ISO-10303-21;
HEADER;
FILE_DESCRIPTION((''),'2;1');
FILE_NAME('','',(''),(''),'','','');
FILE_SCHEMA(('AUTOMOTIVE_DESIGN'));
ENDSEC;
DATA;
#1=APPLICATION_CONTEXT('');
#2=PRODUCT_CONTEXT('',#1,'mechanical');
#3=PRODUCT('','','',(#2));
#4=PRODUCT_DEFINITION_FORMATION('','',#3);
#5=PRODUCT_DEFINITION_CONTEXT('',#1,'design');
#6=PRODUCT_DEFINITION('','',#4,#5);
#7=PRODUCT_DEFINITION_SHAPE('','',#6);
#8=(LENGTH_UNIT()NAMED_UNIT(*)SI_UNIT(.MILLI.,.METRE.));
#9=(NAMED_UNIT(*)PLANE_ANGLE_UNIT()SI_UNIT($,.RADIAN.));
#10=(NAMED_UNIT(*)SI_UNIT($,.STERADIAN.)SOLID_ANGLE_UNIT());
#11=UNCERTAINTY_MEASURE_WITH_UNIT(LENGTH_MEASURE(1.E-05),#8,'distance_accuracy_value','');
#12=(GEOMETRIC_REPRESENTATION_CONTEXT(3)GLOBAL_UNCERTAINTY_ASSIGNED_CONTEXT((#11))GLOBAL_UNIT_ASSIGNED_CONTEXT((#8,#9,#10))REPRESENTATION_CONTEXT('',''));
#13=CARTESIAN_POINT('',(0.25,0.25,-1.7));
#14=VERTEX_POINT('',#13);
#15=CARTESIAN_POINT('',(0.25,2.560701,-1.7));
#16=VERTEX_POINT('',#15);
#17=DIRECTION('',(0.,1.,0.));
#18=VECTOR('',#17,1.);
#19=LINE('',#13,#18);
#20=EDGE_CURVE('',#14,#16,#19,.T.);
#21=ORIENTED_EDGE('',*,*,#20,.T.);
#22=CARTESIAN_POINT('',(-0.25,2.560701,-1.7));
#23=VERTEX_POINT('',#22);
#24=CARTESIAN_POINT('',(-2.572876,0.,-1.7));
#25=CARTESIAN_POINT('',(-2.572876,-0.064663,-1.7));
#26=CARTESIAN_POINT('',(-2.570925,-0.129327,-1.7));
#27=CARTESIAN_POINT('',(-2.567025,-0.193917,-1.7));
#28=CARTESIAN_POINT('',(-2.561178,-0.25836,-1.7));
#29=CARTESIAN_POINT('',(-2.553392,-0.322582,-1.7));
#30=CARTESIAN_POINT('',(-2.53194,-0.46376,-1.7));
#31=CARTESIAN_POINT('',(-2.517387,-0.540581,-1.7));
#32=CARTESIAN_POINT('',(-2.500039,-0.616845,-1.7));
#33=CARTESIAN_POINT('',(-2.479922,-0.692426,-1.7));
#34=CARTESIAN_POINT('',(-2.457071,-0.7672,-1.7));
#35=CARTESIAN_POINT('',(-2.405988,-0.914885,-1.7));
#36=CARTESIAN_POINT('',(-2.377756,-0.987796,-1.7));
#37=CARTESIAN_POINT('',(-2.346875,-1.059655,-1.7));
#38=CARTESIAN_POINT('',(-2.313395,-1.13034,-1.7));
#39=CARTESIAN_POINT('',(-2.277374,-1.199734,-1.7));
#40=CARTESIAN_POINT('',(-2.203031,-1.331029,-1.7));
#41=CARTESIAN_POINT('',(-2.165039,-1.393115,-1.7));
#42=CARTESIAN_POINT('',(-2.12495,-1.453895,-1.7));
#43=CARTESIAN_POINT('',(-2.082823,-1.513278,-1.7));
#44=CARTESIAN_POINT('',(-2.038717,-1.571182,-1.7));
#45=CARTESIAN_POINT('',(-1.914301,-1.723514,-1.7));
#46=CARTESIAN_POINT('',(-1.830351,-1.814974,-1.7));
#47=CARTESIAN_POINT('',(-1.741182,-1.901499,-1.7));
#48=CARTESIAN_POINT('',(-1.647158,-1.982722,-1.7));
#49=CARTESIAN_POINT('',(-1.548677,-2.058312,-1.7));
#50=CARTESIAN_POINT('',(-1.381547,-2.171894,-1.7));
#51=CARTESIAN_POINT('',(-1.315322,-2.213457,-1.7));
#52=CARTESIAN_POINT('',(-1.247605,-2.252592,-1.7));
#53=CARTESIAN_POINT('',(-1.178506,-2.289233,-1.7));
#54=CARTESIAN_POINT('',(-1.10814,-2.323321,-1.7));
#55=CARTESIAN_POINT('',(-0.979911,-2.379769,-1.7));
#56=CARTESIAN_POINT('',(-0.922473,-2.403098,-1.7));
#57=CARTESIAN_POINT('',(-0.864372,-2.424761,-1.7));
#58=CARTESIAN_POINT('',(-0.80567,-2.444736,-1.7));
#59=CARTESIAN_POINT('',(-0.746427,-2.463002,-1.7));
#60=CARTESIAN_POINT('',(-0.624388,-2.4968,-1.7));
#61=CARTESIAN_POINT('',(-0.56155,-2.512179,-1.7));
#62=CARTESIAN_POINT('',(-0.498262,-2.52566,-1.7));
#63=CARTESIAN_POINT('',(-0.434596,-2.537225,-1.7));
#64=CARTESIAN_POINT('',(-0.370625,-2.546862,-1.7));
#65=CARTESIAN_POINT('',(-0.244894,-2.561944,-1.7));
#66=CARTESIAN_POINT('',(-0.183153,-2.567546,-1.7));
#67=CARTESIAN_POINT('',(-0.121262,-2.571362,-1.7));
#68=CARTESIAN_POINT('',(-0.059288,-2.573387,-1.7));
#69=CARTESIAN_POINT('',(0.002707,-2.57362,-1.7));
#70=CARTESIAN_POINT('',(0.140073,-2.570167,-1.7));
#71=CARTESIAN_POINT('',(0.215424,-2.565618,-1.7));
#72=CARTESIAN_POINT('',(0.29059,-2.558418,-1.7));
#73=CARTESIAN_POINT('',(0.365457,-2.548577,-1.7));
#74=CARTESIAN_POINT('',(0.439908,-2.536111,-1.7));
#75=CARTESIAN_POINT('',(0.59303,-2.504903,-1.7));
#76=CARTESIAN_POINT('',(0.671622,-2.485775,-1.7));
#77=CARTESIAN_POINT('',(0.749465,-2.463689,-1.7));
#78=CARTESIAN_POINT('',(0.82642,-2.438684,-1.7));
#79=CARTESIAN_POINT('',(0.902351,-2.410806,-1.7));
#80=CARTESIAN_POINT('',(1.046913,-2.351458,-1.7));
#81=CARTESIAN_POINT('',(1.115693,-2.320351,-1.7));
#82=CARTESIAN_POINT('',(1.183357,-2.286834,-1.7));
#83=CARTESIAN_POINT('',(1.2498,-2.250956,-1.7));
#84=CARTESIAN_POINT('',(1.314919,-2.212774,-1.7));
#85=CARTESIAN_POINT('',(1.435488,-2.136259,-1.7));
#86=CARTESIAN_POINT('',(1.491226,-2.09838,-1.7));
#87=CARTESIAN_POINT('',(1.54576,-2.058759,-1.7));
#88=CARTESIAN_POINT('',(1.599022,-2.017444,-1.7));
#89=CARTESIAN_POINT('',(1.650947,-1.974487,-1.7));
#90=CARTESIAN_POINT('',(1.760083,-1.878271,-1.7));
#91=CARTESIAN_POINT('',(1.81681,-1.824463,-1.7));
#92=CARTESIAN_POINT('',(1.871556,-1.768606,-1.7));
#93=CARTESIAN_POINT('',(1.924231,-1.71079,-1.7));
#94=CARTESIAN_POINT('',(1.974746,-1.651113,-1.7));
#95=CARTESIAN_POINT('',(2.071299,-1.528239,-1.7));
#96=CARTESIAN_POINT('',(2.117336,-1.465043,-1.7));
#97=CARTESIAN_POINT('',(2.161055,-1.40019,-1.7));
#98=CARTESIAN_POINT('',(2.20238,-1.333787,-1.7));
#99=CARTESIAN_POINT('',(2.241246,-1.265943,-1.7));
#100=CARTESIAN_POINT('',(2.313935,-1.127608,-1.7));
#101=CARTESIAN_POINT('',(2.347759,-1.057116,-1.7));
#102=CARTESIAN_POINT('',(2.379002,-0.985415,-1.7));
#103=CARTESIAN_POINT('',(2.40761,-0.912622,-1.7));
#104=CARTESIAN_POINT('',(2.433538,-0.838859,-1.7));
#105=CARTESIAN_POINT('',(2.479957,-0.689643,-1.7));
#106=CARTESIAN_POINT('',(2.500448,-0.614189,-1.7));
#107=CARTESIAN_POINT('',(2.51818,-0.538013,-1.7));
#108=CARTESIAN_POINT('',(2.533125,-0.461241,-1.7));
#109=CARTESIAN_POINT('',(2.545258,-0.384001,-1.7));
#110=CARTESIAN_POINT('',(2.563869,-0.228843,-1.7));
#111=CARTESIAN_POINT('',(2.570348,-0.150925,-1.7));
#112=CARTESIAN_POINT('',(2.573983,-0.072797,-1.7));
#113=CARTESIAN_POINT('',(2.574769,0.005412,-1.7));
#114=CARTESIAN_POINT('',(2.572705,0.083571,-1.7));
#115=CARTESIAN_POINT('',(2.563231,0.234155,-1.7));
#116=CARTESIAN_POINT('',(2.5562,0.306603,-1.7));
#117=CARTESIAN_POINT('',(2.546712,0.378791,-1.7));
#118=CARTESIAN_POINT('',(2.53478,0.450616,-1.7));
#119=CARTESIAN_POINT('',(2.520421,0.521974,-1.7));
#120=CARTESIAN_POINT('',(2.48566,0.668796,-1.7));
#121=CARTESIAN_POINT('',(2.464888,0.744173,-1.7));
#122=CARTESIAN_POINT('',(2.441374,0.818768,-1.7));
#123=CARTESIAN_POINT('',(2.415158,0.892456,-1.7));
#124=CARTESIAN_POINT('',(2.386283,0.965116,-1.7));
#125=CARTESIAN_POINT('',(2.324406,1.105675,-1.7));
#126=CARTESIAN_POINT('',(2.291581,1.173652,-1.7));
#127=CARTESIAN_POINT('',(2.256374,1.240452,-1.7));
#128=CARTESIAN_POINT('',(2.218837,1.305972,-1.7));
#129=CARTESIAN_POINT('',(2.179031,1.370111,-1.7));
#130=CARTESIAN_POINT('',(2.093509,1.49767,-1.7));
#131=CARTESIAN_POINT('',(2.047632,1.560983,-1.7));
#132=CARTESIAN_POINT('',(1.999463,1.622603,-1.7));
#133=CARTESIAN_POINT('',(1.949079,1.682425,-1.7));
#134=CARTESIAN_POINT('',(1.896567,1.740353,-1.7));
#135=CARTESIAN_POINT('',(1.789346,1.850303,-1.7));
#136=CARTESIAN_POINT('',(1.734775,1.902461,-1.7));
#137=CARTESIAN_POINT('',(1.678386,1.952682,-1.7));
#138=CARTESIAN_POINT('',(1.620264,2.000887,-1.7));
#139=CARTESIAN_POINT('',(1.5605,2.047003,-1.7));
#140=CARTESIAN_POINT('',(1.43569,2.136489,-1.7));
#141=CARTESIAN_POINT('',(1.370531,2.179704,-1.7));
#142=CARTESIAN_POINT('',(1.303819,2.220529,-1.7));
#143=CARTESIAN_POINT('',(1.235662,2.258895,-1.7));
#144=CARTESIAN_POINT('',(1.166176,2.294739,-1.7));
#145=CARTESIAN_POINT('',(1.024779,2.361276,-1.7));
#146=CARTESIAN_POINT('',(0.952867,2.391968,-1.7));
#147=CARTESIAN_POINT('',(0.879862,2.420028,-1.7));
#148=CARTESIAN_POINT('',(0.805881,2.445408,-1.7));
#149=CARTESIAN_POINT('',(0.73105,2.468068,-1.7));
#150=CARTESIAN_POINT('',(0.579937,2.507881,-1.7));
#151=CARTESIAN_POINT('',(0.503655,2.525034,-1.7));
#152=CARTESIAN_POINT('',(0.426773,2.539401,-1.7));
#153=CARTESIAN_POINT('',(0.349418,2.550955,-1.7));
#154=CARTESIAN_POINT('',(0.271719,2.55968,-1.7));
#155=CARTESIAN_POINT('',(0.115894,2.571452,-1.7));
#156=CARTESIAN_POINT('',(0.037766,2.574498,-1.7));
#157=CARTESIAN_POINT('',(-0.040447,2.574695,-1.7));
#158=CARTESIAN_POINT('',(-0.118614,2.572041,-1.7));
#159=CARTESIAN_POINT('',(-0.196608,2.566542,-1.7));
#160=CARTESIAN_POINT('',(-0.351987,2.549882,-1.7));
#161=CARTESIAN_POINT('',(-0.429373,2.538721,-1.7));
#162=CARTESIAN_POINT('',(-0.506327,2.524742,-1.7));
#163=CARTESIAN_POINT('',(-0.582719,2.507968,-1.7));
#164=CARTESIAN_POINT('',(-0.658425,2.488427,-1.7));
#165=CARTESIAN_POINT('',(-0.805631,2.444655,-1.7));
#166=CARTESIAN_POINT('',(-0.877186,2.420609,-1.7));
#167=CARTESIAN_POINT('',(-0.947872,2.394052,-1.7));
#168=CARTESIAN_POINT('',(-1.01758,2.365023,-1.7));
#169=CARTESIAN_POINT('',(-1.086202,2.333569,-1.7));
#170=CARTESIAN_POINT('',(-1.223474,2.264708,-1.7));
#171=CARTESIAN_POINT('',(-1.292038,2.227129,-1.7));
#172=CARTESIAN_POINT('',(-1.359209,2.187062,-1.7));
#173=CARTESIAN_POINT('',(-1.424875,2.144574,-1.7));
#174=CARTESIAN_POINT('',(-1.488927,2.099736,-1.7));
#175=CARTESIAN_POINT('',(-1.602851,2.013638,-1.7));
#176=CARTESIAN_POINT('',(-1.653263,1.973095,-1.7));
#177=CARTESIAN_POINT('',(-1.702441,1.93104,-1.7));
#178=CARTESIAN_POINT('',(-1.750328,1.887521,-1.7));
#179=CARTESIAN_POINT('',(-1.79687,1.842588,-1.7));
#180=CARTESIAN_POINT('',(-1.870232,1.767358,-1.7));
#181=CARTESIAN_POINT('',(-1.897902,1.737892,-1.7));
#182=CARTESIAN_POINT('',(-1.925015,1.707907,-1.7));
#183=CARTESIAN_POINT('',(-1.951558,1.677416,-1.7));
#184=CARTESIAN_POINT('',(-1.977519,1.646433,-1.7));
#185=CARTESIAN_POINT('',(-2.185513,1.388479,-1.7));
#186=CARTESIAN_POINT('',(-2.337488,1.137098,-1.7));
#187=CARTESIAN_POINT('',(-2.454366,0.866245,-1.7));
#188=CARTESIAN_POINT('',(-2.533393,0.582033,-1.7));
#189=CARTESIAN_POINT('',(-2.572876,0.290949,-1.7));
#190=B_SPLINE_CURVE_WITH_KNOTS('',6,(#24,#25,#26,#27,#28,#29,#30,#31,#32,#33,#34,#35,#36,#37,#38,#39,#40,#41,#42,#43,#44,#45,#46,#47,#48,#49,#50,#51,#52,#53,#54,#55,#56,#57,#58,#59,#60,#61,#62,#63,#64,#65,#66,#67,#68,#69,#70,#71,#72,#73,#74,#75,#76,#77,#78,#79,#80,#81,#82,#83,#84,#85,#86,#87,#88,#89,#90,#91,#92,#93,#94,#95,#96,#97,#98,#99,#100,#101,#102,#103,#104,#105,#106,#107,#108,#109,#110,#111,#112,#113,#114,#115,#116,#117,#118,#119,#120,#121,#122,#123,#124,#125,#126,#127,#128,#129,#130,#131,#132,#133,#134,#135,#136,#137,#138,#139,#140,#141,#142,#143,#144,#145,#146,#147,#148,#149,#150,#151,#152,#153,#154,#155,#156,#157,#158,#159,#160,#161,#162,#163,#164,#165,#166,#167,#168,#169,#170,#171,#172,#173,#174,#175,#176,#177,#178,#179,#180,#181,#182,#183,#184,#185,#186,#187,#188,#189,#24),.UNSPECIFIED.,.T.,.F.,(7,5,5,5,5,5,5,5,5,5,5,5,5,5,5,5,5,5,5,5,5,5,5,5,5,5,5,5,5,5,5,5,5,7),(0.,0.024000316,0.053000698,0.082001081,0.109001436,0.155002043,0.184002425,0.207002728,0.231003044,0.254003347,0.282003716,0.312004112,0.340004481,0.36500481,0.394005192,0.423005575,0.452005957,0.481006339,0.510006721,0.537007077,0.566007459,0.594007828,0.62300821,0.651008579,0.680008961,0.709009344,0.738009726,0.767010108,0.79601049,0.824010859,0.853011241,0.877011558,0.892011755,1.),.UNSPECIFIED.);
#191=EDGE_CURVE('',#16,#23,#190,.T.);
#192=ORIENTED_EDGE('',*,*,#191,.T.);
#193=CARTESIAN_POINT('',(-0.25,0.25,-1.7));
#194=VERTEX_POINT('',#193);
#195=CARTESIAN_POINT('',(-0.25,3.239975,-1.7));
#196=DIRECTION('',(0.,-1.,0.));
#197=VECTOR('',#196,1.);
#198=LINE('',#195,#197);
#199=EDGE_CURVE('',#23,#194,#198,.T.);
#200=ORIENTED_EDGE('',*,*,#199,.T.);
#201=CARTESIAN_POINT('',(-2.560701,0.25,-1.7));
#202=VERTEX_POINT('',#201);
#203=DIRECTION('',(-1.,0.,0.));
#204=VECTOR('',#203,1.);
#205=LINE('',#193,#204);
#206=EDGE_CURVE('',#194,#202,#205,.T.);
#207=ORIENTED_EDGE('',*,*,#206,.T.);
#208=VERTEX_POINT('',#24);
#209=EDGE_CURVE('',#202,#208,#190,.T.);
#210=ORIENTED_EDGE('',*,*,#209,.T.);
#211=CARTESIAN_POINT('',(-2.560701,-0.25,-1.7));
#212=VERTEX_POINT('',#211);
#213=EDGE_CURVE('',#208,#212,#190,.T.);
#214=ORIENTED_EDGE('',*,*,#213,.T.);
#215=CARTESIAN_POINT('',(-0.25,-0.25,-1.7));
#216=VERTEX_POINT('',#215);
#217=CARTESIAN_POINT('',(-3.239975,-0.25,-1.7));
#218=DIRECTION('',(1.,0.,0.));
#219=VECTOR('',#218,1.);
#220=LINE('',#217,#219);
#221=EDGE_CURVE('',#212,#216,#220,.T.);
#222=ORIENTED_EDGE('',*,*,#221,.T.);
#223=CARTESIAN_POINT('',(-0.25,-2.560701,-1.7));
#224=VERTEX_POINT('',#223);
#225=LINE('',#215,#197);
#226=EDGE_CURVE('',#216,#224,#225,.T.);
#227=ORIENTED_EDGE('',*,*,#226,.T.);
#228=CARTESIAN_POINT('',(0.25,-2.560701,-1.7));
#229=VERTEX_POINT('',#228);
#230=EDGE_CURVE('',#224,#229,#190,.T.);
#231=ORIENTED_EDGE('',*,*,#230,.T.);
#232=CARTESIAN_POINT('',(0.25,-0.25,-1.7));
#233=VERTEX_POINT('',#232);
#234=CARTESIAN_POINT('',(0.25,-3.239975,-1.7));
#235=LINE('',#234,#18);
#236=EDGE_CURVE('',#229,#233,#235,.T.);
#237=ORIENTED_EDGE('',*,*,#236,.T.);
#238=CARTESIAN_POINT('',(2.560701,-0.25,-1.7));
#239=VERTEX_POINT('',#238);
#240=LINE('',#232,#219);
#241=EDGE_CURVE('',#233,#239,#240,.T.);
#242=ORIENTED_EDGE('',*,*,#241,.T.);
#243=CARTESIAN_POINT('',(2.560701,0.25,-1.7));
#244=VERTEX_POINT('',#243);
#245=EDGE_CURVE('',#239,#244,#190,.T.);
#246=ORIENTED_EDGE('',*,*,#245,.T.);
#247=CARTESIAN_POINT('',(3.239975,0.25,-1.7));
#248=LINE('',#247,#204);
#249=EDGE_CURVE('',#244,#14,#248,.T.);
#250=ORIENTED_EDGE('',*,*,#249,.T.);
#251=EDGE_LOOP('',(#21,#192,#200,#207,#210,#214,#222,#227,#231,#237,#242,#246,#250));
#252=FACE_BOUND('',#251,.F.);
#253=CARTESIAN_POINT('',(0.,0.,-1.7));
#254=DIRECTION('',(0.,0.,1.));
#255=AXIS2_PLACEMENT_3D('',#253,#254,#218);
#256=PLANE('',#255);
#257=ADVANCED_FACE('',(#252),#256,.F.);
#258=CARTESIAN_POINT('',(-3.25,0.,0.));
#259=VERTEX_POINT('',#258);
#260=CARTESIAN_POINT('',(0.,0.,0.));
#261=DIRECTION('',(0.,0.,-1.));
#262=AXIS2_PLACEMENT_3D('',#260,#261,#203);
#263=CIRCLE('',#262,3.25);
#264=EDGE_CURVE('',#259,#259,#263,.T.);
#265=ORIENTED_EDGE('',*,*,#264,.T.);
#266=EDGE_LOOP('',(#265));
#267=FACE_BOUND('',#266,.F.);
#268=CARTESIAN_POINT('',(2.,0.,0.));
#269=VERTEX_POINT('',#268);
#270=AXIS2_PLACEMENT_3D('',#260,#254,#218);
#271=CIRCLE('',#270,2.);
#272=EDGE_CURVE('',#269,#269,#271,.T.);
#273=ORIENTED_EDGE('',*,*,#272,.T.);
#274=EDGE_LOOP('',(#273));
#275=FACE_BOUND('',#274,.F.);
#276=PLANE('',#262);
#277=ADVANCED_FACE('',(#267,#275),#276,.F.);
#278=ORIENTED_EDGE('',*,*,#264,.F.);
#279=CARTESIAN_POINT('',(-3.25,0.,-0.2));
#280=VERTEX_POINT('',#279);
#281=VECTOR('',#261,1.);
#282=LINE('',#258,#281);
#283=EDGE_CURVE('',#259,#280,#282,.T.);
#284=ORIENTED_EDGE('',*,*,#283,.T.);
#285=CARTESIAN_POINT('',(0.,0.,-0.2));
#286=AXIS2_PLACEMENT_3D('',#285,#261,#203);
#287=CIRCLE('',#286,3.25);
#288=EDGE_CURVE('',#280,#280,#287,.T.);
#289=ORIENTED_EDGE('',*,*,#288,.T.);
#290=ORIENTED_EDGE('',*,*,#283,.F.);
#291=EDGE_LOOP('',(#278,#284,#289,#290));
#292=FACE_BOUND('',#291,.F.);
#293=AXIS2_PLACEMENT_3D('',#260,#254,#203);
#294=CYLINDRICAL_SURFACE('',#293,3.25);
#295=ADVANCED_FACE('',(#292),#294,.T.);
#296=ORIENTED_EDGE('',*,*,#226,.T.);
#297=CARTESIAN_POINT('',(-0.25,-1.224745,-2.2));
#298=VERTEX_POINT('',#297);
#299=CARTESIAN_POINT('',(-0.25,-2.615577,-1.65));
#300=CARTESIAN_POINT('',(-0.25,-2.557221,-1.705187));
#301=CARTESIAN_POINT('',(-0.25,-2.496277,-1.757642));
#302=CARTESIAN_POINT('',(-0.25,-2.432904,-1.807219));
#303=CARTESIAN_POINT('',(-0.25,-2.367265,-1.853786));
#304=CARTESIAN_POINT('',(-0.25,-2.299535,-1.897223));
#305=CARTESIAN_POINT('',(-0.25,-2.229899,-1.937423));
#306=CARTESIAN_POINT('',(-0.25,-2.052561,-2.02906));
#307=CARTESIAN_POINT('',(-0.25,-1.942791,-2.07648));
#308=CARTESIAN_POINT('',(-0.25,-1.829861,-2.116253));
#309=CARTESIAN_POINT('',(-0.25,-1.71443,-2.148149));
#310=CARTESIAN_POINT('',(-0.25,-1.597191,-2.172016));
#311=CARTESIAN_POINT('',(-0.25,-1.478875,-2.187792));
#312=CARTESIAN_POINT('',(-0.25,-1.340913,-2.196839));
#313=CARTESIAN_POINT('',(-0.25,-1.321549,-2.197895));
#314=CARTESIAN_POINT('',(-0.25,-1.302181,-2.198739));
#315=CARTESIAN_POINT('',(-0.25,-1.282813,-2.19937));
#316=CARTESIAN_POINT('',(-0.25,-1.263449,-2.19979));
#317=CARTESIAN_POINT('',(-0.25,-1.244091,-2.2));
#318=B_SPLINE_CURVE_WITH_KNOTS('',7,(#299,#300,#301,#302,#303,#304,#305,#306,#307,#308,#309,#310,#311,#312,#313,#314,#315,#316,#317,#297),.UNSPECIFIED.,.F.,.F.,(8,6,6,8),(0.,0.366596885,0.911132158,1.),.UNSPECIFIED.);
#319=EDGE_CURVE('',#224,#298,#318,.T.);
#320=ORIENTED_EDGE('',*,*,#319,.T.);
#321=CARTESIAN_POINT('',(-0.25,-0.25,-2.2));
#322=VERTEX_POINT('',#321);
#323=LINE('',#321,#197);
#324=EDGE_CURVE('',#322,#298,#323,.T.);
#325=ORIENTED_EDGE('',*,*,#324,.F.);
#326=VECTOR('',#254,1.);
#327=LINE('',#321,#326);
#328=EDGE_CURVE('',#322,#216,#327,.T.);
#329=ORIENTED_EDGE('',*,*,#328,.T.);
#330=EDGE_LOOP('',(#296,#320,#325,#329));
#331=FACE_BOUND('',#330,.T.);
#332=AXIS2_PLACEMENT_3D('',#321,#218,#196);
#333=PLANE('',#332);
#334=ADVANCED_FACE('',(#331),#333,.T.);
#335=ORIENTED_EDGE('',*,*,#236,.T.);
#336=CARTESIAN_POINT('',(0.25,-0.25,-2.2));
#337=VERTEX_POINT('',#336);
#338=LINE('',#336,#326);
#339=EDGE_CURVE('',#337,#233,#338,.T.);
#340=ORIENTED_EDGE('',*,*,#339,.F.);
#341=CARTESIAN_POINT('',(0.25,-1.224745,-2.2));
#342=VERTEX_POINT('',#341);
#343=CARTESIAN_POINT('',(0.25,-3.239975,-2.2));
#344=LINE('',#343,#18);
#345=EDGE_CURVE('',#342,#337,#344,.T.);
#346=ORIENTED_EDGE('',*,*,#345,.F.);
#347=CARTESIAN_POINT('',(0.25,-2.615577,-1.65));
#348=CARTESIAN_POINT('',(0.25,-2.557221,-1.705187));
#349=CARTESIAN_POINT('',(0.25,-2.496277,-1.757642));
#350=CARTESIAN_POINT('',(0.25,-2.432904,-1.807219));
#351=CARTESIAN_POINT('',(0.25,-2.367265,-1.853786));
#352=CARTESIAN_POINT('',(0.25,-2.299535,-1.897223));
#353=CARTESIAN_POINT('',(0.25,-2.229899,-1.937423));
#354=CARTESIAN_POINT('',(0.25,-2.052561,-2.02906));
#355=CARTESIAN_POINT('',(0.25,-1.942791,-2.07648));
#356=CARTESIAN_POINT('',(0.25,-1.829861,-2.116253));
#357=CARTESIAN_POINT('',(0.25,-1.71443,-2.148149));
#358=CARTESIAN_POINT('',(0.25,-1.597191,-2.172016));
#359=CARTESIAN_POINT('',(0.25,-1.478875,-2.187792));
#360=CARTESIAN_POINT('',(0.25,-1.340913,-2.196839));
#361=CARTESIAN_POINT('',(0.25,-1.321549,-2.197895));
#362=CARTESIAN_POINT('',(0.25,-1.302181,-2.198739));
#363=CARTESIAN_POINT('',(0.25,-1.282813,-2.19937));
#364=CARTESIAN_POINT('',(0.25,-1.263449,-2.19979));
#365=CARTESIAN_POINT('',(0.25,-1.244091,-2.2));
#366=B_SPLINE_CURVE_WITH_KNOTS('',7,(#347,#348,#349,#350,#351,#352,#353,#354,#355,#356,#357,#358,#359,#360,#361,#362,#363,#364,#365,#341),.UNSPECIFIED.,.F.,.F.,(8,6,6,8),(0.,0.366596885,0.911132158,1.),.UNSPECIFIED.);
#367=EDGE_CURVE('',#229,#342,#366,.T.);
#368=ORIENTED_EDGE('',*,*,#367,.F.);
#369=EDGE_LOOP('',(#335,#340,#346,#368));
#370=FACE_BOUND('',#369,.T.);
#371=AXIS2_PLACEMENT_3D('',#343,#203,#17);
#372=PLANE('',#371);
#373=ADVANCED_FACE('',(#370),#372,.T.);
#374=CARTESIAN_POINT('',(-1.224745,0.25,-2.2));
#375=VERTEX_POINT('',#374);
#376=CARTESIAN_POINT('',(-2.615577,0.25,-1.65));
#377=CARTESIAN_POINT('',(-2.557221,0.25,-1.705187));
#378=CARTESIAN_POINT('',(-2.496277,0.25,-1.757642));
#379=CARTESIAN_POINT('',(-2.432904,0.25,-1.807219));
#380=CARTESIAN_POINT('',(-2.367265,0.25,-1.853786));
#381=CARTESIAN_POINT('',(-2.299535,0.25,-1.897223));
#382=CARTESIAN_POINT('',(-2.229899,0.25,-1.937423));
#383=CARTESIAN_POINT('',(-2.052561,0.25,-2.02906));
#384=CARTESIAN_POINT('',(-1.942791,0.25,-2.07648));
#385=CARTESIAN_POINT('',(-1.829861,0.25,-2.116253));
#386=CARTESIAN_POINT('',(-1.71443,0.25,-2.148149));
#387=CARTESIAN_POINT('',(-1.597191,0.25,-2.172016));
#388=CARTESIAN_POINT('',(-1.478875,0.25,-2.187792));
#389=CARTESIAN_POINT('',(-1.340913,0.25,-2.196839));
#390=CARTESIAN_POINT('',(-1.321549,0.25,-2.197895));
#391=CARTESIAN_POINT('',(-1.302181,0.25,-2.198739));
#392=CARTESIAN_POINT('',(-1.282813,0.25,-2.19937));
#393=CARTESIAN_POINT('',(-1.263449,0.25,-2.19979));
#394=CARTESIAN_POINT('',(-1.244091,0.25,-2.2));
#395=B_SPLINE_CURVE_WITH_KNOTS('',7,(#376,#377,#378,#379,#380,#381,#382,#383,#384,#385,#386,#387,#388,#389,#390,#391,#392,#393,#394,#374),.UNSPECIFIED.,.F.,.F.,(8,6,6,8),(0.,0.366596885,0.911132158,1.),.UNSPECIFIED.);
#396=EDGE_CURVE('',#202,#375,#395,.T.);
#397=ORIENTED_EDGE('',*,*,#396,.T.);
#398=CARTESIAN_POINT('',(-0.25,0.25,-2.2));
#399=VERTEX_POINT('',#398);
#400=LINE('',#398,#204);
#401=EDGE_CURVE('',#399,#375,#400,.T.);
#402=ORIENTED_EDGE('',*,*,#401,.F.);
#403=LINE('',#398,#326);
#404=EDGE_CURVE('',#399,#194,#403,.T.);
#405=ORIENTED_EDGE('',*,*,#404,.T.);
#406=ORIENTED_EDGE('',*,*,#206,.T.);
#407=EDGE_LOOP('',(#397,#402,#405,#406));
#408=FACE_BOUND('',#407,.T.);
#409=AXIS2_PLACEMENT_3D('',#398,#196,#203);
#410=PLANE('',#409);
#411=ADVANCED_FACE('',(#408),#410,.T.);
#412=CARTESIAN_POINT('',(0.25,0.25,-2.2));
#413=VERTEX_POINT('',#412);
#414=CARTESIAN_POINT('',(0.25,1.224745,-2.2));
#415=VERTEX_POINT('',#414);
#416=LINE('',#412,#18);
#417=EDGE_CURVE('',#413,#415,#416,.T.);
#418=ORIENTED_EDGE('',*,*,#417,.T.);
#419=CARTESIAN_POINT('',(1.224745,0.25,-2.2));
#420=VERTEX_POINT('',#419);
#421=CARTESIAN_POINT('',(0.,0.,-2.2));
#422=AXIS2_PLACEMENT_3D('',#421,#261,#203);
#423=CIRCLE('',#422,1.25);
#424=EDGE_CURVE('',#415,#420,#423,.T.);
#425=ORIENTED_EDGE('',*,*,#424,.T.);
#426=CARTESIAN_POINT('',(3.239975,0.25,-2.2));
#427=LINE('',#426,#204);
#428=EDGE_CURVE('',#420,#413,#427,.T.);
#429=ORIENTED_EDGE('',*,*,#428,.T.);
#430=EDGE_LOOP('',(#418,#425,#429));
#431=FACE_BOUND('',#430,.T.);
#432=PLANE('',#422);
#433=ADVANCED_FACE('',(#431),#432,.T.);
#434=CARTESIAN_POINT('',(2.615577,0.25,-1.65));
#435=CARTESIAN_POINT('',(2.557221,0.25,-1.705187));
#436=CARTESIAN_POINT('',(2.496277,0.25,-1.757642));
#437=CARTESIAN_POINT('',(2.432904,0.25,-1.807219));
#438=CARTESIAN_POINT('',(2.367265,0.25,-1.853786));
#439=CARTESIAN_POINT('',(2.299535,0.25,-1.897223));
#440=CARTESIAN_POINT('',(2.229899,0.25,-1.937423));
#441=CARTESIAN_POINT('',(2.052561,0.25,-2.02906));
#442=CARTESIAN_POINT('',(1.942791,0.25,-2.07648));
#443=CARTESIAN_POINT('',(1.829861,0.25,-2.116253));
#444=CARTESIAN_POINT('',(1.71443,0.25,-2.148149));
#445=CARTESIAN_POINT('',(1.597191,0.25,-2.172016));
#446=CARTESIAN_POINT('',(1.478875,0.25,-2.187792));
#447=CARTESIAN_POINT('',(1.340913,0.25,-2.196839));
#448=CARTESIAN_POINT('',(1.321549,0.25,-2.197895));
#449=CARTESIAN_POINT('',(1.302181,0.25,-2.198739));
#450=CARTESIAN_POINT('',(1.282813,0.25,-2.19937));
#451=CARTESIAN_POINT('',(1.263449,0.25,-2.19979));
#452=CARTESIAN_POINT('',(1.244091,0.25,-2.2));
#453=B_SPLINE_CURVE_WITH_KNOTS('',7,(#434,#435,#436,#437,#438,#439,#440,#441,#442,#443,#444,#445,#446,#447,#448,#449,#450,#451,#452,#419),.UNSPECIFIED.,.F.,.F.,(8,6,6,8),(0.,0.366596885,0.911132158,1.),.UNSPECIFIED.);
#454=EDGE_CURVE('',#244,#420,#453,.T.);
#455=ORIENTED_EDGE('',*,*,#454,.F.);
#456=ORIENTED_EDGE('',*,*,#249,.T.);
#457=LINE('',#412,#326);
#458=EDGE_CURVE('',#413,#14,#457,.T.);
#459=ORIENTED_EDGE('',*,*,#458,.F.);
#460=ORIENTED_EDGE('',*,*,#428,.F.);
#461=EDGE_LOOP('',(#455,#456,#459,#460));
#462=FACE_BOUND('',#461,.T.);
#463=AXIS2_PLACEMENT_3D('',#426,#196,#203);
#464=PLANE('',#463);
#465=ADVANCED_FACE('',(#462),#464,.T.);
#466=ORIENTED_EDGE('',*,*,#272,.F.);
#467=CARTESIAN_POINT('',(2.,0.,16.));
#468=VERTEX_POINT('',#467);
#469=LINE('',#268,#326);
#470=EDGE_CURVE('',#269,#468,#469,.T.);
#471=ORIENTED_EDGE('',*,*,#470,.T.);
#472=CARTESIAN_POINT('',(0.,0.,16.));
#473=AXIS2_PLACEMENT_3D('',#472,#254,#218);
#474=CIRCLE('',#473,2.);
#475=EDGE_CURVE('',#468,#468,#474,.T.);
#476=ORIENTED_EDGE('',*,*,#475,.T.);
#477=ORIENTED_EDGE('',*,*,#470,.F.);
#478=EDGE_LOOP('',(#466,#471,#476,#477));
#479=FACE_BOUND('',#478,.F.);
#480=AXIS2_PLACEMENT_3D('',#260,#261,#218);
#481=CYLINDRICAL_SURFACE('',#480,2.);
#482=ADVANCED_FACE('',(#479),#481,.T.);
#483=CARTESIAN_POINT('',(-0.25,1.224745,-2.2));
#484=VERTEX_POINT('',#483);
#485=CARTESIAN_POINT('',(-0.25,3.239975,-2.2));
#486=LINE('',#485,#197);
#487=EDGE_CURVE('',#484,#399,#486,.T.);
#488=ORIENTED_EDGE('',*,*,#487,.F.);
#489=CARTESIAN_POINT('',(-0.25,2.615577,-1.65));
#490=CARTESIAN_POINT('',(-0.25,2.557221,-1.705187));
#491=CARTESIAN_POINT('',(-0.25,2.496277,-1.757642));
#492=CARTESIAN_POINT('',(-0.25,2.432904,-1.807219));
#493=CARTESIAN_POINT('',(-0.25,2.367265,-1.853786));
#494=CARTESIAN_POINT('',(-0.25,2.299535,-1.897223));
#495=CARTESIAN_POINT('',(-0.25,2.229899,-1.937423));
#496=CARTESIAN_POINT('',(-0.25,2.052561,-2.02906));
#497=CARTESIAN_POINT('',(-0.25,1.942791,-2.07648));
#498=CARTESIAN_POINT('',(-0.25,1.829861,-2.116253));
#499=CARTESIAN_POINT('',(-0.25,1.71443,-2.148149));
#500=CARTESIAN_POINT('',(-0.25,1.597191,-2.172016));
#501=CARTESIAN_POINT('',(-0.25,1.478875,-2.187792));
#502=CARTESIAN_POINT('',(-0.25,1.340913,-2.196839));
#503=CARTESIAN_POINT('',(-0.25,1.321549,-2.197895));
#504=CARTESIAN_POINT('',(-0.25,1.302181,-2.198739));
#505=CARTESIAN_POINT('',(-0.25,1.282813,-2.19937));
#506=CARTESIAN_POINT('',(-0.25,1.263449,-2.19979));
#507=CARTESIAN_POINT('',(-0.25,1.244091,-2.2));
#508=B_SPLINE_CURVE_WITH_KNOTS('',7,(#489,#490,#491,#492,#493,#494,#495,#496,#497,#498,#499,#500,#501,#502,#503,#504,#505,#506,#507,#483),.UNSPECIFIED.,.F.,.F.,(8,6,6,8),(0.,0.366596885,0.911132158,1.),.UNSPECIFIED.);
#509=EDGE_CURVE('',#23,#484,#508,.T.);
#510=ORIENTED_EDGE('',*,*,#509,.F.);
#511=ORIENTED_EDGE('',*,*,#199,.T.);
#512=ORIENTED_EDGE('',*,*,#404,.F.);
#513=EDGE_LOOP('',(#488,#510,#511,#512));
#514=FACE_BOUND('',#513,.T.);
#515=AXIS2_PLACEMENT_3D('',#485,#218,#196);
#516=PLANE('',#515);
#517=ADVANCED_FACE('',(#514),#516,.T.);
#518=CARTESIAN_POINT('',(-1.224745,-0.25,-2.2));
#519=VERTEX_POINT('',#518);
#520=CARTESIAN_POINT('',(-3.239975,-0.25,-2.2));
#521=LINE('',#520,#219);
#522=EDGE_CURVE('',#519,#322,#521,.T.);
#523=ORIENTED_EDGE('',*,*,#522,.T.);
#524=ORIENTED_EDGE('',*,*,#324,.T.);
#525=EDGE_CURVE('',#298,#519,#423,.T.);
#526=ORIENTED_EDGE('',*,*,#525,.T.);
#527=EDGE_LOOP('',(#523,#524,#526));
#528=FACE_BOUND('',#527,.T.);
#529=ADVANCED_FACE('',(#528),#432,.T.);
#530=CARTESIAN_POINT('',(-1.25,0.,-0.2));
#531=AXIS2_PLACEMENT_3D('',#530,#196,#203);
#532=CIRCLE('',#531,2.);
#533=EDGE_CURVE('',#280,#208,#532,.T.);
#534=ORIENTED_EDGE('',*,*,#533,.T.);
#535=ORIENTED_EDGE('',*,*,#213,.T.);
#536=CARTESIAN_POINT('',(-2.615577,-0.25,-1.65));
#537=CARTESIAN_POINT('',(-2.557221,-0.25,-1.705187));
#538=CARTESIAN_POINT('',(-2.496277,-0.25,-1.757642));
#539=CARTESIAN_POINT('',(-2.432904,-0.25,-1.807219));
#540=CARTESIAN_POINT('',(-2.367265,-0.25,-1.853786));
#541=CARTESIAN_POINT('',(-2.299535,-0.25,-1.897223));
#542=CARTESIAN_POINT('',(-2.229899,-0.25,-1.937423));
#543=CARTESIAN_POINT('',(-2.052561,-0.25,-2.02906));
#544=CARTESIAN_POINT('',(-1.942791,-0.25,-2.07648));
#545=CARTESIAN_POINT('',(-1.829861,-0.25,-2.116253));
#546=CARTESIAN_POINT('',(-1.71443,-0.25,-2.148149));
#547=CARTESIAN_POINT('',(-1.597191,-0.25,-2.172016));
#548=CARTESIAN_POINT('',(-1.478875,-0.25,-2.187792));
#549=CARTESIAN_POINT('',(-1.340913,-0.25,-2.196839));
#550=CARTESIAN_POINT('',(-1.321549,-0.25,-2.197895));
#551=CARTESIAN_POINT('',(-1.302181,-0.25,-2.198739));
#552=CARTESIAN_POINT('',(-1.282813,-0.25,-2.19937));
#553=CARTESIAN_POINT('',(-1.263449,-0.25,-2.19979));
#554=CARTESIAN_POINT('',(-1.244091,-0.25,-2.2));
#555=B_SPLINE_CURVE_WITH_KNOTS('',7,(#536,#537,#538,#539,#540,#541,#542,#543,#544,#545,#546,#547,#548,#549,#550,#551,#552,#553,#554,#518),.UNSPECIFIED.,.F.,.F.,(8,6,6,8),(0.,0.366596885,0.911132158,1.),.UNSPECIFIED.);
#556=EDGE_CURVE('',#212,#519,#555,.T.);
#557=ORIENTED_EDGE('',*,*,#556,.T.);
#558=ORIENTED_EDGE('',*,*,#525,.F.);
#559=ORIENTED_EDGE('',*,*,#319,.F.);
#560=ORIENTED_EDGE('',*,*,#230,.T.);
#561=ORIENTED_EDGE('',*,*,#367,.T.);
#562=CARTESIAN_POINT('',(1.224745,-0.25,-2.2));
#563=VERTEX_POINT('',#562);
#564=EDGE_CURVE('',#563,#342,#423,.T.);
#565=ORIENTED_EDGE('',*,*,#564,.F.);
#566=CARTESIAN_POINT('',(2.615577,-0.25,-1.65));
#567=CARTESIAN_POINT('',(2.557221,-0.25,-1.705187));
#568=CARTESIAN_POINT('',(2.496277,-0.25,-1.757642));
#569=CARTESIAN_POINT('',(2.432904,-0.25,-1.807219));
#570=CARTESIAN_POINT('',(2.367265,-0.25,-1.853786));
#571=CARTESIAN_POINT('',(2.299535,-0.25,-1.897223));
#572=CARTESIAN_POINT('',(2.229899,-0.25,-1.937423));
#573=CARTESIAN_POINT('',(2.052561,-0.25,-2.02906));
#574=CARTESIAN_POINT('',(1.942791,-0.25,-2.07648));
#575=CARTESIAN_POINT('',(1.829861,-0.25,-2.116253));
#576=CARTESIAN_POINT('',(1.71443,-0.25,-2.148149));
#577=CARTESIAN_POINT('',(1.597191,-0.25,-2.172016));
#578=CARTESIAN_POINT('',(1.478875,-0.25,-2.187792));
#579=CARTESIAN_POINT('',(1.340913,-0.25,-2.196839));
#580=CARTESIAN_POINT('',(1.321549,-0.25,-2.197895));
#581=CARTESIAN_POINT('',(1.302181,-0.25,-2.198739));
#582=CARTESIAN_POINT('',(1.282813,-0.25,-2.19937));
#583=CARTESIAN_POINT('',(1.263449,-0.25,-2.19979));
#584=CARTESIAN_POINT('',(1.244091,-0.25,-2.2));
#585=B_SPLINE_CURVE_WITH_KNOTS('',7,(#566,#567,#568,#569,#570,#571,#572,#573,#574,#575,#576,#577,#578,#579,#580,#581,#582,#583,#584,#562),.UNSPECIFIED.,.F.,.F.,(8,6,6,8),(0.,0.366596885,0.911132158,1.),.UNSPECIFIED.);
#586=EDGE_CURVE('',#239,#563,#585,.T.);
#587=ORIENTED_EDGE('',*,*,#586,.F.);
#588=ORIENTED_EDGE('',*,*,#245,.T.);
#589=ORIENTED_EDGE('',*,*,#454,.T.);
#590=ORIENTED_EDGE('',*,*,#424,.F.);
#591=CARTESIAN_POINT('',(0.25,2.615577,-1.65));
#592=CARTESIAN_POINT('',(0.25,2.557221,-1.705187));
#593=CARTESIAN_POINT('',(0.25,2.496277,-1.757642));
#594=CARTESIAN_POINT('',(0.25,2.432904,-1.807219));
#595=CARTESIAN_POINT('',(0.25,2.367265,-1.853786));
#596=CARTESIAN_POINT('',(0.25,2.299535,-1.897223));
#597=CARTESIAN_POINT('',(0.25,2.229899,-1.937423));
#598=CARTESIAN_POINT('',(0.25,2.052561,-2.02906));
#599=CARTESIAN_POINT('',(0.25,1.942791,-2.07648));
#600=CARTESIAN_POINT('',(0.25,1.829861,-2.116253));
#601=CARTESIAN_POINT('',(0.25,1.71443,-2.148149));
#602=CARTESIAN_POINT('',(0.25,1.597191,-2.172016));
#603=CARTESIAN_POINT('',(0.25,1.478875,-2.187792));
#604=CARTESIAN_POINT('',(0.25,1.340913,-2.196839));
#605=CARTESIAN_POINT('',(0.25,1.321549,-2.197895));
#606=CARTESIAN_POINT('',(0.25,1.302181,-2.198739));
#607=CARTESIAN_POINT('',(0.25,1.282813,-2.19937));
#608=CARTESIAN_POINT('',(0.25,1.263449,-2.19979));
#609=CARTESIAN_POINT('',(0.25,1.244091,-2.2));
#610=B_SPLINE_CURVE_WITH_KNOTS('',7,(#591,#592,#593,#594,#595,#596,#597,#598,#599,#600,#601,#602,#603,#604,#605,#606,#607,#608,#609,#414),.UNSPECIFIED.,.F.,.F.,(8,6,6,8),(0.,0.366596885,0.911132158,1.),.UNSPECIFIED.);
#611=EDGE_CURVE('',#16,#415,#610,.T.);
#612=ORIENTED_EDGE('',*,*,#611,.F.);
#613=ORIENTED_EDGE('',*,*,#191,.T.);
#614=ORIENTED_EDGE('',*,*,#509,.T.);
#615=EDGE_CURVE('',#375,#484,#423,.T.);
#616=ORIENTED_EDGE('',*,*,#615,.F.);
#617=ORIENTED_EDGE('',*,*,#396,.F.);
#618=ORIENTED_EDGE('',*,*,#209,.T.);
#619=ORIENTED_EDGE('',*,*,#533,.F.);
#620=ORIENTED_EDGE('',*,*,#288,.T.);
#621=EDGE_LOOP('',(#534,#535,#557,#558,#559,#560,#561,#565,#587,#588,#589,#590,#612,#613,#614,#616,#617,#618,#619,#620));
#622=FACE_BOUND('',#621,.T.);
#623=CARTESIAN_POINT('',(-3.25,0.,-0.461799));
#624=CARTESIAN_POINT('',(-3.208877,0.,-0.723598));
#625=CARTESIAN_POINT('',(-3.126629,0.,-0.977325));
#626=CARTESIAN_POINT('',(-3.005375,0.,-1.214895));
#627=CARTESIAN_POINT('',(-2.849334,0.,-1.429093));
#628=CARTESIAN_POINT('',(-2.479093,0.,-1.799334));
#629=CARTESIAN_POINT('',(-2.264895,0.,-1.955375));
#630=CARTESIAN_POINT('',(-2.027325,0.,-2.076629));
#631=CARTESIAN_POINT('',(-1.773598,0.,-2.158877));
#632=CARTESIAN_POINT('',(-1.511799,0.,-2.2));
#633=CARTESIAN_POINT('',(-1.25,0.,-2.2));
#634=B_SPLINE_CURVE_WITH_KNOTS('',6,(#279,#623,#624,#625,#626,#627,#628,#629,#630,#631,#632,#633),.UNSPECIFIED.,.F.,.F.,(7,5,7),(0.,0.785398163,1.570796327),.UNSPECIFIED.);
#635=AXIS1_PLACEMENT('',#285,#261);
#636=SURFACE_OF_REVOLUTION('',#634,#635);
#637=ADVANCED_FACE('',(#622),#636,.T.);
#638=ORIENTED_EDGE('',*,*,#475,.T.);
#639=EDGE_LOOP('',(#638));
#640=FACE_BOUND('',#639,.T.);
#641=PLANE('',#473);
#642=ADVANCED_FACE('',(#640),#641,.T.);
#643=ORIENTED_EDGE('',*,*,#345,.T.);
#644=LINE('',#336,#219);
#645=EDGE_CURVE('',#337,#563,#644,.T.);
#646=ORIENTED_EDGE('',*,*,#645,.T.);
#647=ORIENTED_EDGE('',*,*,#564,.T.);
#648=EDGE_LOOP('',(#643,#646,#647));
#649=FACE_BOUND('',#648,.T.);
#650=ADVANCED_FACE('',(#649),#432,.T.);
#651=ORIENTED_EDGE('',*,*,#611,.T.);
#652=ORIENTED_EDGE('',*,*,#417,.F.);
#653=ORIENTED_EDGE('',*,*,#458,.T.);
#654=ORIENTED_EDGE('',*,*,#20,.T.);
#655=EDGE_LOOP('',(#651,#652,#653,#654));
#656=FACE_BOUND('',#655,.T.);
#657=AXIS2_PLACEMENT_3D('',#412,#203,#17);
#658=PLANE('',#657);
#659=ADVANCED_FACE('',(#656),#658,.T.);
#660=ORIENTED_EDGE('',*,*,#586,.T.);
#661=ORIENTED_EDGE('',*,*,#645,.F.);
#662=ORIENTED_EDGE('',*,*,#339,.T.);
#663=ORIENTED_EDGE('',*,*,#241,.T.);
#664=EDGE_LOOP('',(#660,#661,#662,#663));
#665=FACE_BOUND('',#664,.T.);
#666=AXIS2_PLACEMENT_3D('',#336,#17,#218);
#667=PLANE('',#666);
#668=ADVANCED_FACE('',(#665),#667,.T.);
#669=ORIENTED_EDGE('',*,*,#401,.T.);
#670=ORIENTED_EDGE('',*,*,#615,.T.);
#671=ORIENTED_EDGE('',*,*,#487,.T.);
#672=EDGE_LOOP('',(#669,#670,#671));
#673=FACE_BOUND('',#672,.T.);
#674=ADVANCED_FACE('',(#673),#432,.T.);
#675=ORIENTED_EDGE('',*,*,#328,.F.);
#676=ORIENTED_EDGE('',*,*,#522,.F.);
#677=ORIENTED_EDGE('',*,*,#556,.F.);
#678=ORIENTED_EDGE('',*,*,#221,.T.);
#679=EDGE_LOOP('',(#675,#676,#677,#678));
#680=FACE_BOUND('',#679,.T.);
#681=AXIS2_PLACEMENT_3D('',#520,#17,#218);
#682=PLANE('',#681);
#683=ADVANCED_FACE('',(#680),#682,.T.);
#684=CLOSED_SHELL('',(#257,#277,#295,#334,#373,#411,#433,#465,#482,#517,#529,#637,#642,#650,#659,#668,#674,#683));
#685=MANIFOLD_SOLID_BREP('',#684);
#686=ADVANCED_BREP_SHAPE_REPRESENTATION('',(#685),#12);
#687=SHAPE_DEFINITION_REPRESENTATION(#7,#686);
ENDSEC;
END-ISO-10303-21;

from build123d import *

# Parameters (mm, degrees)
SKETCH_1_R          = 2
EXTRUDE_1_DEPTH     = 16
SKETCH_2_R          = 3.25
EXTRUDE_2_DEPTH     = 2.2
FILLET_1_R          = 2
CUT_EXTRUDE_1_DEPTH = 0.5


with BuildPart() as part:
    # 草图1 → 凸台-拉伸1 (new body)
    with BuildSketch(Plane.XY):
        Circle(SKETCH_1_R)
    extrude(amount=EXTRUDE_1_DEPTH)

    # 草图2 → 凸台-拉伸2 (add)
    with BuildSketch(Plane(origin=(0, 0, 0), x_dir=(-1, 0, 0), z_dir=(0, 0, -1))):
        Circle(SKETCH_2_R)
    extrude(amount=EXTRUDE_2_DEPTH)

    # 圆角1
    fillet_1_edges = [part.edges().sort_by_distance(p)[0] for p in [
        (3.25, 0, -2.2),
    ]]
    fillet(fillet_1_edges, radius=FILLET_1_R)

    # 草图3 → 切除-拉伸1 (cut)
    with BuildSketch(Plane(origin=(0, 0, -2.2), x_dir=(-1, 0, 0), z_dir=(0, 0, -1))):
        Polygon((3.239974874, 0.25), (3.239974874, -0.25), (0.25, -0.25), (0.25, -3.239974874), (-0.25, -3.239974874), (-0.25, -0.25), (-3.239974874, -0.25), (-3.239974874, 0.25), (-0.25, 0.25), (-0.25, 3.239974874), (0.25, 3.239974874), (0.25, 0.25), align=None)
    extrude(amount=-CUT_EXTRUDE_1_DEPTH, mode=Mode.SUBTRACT)


solid = part.part
